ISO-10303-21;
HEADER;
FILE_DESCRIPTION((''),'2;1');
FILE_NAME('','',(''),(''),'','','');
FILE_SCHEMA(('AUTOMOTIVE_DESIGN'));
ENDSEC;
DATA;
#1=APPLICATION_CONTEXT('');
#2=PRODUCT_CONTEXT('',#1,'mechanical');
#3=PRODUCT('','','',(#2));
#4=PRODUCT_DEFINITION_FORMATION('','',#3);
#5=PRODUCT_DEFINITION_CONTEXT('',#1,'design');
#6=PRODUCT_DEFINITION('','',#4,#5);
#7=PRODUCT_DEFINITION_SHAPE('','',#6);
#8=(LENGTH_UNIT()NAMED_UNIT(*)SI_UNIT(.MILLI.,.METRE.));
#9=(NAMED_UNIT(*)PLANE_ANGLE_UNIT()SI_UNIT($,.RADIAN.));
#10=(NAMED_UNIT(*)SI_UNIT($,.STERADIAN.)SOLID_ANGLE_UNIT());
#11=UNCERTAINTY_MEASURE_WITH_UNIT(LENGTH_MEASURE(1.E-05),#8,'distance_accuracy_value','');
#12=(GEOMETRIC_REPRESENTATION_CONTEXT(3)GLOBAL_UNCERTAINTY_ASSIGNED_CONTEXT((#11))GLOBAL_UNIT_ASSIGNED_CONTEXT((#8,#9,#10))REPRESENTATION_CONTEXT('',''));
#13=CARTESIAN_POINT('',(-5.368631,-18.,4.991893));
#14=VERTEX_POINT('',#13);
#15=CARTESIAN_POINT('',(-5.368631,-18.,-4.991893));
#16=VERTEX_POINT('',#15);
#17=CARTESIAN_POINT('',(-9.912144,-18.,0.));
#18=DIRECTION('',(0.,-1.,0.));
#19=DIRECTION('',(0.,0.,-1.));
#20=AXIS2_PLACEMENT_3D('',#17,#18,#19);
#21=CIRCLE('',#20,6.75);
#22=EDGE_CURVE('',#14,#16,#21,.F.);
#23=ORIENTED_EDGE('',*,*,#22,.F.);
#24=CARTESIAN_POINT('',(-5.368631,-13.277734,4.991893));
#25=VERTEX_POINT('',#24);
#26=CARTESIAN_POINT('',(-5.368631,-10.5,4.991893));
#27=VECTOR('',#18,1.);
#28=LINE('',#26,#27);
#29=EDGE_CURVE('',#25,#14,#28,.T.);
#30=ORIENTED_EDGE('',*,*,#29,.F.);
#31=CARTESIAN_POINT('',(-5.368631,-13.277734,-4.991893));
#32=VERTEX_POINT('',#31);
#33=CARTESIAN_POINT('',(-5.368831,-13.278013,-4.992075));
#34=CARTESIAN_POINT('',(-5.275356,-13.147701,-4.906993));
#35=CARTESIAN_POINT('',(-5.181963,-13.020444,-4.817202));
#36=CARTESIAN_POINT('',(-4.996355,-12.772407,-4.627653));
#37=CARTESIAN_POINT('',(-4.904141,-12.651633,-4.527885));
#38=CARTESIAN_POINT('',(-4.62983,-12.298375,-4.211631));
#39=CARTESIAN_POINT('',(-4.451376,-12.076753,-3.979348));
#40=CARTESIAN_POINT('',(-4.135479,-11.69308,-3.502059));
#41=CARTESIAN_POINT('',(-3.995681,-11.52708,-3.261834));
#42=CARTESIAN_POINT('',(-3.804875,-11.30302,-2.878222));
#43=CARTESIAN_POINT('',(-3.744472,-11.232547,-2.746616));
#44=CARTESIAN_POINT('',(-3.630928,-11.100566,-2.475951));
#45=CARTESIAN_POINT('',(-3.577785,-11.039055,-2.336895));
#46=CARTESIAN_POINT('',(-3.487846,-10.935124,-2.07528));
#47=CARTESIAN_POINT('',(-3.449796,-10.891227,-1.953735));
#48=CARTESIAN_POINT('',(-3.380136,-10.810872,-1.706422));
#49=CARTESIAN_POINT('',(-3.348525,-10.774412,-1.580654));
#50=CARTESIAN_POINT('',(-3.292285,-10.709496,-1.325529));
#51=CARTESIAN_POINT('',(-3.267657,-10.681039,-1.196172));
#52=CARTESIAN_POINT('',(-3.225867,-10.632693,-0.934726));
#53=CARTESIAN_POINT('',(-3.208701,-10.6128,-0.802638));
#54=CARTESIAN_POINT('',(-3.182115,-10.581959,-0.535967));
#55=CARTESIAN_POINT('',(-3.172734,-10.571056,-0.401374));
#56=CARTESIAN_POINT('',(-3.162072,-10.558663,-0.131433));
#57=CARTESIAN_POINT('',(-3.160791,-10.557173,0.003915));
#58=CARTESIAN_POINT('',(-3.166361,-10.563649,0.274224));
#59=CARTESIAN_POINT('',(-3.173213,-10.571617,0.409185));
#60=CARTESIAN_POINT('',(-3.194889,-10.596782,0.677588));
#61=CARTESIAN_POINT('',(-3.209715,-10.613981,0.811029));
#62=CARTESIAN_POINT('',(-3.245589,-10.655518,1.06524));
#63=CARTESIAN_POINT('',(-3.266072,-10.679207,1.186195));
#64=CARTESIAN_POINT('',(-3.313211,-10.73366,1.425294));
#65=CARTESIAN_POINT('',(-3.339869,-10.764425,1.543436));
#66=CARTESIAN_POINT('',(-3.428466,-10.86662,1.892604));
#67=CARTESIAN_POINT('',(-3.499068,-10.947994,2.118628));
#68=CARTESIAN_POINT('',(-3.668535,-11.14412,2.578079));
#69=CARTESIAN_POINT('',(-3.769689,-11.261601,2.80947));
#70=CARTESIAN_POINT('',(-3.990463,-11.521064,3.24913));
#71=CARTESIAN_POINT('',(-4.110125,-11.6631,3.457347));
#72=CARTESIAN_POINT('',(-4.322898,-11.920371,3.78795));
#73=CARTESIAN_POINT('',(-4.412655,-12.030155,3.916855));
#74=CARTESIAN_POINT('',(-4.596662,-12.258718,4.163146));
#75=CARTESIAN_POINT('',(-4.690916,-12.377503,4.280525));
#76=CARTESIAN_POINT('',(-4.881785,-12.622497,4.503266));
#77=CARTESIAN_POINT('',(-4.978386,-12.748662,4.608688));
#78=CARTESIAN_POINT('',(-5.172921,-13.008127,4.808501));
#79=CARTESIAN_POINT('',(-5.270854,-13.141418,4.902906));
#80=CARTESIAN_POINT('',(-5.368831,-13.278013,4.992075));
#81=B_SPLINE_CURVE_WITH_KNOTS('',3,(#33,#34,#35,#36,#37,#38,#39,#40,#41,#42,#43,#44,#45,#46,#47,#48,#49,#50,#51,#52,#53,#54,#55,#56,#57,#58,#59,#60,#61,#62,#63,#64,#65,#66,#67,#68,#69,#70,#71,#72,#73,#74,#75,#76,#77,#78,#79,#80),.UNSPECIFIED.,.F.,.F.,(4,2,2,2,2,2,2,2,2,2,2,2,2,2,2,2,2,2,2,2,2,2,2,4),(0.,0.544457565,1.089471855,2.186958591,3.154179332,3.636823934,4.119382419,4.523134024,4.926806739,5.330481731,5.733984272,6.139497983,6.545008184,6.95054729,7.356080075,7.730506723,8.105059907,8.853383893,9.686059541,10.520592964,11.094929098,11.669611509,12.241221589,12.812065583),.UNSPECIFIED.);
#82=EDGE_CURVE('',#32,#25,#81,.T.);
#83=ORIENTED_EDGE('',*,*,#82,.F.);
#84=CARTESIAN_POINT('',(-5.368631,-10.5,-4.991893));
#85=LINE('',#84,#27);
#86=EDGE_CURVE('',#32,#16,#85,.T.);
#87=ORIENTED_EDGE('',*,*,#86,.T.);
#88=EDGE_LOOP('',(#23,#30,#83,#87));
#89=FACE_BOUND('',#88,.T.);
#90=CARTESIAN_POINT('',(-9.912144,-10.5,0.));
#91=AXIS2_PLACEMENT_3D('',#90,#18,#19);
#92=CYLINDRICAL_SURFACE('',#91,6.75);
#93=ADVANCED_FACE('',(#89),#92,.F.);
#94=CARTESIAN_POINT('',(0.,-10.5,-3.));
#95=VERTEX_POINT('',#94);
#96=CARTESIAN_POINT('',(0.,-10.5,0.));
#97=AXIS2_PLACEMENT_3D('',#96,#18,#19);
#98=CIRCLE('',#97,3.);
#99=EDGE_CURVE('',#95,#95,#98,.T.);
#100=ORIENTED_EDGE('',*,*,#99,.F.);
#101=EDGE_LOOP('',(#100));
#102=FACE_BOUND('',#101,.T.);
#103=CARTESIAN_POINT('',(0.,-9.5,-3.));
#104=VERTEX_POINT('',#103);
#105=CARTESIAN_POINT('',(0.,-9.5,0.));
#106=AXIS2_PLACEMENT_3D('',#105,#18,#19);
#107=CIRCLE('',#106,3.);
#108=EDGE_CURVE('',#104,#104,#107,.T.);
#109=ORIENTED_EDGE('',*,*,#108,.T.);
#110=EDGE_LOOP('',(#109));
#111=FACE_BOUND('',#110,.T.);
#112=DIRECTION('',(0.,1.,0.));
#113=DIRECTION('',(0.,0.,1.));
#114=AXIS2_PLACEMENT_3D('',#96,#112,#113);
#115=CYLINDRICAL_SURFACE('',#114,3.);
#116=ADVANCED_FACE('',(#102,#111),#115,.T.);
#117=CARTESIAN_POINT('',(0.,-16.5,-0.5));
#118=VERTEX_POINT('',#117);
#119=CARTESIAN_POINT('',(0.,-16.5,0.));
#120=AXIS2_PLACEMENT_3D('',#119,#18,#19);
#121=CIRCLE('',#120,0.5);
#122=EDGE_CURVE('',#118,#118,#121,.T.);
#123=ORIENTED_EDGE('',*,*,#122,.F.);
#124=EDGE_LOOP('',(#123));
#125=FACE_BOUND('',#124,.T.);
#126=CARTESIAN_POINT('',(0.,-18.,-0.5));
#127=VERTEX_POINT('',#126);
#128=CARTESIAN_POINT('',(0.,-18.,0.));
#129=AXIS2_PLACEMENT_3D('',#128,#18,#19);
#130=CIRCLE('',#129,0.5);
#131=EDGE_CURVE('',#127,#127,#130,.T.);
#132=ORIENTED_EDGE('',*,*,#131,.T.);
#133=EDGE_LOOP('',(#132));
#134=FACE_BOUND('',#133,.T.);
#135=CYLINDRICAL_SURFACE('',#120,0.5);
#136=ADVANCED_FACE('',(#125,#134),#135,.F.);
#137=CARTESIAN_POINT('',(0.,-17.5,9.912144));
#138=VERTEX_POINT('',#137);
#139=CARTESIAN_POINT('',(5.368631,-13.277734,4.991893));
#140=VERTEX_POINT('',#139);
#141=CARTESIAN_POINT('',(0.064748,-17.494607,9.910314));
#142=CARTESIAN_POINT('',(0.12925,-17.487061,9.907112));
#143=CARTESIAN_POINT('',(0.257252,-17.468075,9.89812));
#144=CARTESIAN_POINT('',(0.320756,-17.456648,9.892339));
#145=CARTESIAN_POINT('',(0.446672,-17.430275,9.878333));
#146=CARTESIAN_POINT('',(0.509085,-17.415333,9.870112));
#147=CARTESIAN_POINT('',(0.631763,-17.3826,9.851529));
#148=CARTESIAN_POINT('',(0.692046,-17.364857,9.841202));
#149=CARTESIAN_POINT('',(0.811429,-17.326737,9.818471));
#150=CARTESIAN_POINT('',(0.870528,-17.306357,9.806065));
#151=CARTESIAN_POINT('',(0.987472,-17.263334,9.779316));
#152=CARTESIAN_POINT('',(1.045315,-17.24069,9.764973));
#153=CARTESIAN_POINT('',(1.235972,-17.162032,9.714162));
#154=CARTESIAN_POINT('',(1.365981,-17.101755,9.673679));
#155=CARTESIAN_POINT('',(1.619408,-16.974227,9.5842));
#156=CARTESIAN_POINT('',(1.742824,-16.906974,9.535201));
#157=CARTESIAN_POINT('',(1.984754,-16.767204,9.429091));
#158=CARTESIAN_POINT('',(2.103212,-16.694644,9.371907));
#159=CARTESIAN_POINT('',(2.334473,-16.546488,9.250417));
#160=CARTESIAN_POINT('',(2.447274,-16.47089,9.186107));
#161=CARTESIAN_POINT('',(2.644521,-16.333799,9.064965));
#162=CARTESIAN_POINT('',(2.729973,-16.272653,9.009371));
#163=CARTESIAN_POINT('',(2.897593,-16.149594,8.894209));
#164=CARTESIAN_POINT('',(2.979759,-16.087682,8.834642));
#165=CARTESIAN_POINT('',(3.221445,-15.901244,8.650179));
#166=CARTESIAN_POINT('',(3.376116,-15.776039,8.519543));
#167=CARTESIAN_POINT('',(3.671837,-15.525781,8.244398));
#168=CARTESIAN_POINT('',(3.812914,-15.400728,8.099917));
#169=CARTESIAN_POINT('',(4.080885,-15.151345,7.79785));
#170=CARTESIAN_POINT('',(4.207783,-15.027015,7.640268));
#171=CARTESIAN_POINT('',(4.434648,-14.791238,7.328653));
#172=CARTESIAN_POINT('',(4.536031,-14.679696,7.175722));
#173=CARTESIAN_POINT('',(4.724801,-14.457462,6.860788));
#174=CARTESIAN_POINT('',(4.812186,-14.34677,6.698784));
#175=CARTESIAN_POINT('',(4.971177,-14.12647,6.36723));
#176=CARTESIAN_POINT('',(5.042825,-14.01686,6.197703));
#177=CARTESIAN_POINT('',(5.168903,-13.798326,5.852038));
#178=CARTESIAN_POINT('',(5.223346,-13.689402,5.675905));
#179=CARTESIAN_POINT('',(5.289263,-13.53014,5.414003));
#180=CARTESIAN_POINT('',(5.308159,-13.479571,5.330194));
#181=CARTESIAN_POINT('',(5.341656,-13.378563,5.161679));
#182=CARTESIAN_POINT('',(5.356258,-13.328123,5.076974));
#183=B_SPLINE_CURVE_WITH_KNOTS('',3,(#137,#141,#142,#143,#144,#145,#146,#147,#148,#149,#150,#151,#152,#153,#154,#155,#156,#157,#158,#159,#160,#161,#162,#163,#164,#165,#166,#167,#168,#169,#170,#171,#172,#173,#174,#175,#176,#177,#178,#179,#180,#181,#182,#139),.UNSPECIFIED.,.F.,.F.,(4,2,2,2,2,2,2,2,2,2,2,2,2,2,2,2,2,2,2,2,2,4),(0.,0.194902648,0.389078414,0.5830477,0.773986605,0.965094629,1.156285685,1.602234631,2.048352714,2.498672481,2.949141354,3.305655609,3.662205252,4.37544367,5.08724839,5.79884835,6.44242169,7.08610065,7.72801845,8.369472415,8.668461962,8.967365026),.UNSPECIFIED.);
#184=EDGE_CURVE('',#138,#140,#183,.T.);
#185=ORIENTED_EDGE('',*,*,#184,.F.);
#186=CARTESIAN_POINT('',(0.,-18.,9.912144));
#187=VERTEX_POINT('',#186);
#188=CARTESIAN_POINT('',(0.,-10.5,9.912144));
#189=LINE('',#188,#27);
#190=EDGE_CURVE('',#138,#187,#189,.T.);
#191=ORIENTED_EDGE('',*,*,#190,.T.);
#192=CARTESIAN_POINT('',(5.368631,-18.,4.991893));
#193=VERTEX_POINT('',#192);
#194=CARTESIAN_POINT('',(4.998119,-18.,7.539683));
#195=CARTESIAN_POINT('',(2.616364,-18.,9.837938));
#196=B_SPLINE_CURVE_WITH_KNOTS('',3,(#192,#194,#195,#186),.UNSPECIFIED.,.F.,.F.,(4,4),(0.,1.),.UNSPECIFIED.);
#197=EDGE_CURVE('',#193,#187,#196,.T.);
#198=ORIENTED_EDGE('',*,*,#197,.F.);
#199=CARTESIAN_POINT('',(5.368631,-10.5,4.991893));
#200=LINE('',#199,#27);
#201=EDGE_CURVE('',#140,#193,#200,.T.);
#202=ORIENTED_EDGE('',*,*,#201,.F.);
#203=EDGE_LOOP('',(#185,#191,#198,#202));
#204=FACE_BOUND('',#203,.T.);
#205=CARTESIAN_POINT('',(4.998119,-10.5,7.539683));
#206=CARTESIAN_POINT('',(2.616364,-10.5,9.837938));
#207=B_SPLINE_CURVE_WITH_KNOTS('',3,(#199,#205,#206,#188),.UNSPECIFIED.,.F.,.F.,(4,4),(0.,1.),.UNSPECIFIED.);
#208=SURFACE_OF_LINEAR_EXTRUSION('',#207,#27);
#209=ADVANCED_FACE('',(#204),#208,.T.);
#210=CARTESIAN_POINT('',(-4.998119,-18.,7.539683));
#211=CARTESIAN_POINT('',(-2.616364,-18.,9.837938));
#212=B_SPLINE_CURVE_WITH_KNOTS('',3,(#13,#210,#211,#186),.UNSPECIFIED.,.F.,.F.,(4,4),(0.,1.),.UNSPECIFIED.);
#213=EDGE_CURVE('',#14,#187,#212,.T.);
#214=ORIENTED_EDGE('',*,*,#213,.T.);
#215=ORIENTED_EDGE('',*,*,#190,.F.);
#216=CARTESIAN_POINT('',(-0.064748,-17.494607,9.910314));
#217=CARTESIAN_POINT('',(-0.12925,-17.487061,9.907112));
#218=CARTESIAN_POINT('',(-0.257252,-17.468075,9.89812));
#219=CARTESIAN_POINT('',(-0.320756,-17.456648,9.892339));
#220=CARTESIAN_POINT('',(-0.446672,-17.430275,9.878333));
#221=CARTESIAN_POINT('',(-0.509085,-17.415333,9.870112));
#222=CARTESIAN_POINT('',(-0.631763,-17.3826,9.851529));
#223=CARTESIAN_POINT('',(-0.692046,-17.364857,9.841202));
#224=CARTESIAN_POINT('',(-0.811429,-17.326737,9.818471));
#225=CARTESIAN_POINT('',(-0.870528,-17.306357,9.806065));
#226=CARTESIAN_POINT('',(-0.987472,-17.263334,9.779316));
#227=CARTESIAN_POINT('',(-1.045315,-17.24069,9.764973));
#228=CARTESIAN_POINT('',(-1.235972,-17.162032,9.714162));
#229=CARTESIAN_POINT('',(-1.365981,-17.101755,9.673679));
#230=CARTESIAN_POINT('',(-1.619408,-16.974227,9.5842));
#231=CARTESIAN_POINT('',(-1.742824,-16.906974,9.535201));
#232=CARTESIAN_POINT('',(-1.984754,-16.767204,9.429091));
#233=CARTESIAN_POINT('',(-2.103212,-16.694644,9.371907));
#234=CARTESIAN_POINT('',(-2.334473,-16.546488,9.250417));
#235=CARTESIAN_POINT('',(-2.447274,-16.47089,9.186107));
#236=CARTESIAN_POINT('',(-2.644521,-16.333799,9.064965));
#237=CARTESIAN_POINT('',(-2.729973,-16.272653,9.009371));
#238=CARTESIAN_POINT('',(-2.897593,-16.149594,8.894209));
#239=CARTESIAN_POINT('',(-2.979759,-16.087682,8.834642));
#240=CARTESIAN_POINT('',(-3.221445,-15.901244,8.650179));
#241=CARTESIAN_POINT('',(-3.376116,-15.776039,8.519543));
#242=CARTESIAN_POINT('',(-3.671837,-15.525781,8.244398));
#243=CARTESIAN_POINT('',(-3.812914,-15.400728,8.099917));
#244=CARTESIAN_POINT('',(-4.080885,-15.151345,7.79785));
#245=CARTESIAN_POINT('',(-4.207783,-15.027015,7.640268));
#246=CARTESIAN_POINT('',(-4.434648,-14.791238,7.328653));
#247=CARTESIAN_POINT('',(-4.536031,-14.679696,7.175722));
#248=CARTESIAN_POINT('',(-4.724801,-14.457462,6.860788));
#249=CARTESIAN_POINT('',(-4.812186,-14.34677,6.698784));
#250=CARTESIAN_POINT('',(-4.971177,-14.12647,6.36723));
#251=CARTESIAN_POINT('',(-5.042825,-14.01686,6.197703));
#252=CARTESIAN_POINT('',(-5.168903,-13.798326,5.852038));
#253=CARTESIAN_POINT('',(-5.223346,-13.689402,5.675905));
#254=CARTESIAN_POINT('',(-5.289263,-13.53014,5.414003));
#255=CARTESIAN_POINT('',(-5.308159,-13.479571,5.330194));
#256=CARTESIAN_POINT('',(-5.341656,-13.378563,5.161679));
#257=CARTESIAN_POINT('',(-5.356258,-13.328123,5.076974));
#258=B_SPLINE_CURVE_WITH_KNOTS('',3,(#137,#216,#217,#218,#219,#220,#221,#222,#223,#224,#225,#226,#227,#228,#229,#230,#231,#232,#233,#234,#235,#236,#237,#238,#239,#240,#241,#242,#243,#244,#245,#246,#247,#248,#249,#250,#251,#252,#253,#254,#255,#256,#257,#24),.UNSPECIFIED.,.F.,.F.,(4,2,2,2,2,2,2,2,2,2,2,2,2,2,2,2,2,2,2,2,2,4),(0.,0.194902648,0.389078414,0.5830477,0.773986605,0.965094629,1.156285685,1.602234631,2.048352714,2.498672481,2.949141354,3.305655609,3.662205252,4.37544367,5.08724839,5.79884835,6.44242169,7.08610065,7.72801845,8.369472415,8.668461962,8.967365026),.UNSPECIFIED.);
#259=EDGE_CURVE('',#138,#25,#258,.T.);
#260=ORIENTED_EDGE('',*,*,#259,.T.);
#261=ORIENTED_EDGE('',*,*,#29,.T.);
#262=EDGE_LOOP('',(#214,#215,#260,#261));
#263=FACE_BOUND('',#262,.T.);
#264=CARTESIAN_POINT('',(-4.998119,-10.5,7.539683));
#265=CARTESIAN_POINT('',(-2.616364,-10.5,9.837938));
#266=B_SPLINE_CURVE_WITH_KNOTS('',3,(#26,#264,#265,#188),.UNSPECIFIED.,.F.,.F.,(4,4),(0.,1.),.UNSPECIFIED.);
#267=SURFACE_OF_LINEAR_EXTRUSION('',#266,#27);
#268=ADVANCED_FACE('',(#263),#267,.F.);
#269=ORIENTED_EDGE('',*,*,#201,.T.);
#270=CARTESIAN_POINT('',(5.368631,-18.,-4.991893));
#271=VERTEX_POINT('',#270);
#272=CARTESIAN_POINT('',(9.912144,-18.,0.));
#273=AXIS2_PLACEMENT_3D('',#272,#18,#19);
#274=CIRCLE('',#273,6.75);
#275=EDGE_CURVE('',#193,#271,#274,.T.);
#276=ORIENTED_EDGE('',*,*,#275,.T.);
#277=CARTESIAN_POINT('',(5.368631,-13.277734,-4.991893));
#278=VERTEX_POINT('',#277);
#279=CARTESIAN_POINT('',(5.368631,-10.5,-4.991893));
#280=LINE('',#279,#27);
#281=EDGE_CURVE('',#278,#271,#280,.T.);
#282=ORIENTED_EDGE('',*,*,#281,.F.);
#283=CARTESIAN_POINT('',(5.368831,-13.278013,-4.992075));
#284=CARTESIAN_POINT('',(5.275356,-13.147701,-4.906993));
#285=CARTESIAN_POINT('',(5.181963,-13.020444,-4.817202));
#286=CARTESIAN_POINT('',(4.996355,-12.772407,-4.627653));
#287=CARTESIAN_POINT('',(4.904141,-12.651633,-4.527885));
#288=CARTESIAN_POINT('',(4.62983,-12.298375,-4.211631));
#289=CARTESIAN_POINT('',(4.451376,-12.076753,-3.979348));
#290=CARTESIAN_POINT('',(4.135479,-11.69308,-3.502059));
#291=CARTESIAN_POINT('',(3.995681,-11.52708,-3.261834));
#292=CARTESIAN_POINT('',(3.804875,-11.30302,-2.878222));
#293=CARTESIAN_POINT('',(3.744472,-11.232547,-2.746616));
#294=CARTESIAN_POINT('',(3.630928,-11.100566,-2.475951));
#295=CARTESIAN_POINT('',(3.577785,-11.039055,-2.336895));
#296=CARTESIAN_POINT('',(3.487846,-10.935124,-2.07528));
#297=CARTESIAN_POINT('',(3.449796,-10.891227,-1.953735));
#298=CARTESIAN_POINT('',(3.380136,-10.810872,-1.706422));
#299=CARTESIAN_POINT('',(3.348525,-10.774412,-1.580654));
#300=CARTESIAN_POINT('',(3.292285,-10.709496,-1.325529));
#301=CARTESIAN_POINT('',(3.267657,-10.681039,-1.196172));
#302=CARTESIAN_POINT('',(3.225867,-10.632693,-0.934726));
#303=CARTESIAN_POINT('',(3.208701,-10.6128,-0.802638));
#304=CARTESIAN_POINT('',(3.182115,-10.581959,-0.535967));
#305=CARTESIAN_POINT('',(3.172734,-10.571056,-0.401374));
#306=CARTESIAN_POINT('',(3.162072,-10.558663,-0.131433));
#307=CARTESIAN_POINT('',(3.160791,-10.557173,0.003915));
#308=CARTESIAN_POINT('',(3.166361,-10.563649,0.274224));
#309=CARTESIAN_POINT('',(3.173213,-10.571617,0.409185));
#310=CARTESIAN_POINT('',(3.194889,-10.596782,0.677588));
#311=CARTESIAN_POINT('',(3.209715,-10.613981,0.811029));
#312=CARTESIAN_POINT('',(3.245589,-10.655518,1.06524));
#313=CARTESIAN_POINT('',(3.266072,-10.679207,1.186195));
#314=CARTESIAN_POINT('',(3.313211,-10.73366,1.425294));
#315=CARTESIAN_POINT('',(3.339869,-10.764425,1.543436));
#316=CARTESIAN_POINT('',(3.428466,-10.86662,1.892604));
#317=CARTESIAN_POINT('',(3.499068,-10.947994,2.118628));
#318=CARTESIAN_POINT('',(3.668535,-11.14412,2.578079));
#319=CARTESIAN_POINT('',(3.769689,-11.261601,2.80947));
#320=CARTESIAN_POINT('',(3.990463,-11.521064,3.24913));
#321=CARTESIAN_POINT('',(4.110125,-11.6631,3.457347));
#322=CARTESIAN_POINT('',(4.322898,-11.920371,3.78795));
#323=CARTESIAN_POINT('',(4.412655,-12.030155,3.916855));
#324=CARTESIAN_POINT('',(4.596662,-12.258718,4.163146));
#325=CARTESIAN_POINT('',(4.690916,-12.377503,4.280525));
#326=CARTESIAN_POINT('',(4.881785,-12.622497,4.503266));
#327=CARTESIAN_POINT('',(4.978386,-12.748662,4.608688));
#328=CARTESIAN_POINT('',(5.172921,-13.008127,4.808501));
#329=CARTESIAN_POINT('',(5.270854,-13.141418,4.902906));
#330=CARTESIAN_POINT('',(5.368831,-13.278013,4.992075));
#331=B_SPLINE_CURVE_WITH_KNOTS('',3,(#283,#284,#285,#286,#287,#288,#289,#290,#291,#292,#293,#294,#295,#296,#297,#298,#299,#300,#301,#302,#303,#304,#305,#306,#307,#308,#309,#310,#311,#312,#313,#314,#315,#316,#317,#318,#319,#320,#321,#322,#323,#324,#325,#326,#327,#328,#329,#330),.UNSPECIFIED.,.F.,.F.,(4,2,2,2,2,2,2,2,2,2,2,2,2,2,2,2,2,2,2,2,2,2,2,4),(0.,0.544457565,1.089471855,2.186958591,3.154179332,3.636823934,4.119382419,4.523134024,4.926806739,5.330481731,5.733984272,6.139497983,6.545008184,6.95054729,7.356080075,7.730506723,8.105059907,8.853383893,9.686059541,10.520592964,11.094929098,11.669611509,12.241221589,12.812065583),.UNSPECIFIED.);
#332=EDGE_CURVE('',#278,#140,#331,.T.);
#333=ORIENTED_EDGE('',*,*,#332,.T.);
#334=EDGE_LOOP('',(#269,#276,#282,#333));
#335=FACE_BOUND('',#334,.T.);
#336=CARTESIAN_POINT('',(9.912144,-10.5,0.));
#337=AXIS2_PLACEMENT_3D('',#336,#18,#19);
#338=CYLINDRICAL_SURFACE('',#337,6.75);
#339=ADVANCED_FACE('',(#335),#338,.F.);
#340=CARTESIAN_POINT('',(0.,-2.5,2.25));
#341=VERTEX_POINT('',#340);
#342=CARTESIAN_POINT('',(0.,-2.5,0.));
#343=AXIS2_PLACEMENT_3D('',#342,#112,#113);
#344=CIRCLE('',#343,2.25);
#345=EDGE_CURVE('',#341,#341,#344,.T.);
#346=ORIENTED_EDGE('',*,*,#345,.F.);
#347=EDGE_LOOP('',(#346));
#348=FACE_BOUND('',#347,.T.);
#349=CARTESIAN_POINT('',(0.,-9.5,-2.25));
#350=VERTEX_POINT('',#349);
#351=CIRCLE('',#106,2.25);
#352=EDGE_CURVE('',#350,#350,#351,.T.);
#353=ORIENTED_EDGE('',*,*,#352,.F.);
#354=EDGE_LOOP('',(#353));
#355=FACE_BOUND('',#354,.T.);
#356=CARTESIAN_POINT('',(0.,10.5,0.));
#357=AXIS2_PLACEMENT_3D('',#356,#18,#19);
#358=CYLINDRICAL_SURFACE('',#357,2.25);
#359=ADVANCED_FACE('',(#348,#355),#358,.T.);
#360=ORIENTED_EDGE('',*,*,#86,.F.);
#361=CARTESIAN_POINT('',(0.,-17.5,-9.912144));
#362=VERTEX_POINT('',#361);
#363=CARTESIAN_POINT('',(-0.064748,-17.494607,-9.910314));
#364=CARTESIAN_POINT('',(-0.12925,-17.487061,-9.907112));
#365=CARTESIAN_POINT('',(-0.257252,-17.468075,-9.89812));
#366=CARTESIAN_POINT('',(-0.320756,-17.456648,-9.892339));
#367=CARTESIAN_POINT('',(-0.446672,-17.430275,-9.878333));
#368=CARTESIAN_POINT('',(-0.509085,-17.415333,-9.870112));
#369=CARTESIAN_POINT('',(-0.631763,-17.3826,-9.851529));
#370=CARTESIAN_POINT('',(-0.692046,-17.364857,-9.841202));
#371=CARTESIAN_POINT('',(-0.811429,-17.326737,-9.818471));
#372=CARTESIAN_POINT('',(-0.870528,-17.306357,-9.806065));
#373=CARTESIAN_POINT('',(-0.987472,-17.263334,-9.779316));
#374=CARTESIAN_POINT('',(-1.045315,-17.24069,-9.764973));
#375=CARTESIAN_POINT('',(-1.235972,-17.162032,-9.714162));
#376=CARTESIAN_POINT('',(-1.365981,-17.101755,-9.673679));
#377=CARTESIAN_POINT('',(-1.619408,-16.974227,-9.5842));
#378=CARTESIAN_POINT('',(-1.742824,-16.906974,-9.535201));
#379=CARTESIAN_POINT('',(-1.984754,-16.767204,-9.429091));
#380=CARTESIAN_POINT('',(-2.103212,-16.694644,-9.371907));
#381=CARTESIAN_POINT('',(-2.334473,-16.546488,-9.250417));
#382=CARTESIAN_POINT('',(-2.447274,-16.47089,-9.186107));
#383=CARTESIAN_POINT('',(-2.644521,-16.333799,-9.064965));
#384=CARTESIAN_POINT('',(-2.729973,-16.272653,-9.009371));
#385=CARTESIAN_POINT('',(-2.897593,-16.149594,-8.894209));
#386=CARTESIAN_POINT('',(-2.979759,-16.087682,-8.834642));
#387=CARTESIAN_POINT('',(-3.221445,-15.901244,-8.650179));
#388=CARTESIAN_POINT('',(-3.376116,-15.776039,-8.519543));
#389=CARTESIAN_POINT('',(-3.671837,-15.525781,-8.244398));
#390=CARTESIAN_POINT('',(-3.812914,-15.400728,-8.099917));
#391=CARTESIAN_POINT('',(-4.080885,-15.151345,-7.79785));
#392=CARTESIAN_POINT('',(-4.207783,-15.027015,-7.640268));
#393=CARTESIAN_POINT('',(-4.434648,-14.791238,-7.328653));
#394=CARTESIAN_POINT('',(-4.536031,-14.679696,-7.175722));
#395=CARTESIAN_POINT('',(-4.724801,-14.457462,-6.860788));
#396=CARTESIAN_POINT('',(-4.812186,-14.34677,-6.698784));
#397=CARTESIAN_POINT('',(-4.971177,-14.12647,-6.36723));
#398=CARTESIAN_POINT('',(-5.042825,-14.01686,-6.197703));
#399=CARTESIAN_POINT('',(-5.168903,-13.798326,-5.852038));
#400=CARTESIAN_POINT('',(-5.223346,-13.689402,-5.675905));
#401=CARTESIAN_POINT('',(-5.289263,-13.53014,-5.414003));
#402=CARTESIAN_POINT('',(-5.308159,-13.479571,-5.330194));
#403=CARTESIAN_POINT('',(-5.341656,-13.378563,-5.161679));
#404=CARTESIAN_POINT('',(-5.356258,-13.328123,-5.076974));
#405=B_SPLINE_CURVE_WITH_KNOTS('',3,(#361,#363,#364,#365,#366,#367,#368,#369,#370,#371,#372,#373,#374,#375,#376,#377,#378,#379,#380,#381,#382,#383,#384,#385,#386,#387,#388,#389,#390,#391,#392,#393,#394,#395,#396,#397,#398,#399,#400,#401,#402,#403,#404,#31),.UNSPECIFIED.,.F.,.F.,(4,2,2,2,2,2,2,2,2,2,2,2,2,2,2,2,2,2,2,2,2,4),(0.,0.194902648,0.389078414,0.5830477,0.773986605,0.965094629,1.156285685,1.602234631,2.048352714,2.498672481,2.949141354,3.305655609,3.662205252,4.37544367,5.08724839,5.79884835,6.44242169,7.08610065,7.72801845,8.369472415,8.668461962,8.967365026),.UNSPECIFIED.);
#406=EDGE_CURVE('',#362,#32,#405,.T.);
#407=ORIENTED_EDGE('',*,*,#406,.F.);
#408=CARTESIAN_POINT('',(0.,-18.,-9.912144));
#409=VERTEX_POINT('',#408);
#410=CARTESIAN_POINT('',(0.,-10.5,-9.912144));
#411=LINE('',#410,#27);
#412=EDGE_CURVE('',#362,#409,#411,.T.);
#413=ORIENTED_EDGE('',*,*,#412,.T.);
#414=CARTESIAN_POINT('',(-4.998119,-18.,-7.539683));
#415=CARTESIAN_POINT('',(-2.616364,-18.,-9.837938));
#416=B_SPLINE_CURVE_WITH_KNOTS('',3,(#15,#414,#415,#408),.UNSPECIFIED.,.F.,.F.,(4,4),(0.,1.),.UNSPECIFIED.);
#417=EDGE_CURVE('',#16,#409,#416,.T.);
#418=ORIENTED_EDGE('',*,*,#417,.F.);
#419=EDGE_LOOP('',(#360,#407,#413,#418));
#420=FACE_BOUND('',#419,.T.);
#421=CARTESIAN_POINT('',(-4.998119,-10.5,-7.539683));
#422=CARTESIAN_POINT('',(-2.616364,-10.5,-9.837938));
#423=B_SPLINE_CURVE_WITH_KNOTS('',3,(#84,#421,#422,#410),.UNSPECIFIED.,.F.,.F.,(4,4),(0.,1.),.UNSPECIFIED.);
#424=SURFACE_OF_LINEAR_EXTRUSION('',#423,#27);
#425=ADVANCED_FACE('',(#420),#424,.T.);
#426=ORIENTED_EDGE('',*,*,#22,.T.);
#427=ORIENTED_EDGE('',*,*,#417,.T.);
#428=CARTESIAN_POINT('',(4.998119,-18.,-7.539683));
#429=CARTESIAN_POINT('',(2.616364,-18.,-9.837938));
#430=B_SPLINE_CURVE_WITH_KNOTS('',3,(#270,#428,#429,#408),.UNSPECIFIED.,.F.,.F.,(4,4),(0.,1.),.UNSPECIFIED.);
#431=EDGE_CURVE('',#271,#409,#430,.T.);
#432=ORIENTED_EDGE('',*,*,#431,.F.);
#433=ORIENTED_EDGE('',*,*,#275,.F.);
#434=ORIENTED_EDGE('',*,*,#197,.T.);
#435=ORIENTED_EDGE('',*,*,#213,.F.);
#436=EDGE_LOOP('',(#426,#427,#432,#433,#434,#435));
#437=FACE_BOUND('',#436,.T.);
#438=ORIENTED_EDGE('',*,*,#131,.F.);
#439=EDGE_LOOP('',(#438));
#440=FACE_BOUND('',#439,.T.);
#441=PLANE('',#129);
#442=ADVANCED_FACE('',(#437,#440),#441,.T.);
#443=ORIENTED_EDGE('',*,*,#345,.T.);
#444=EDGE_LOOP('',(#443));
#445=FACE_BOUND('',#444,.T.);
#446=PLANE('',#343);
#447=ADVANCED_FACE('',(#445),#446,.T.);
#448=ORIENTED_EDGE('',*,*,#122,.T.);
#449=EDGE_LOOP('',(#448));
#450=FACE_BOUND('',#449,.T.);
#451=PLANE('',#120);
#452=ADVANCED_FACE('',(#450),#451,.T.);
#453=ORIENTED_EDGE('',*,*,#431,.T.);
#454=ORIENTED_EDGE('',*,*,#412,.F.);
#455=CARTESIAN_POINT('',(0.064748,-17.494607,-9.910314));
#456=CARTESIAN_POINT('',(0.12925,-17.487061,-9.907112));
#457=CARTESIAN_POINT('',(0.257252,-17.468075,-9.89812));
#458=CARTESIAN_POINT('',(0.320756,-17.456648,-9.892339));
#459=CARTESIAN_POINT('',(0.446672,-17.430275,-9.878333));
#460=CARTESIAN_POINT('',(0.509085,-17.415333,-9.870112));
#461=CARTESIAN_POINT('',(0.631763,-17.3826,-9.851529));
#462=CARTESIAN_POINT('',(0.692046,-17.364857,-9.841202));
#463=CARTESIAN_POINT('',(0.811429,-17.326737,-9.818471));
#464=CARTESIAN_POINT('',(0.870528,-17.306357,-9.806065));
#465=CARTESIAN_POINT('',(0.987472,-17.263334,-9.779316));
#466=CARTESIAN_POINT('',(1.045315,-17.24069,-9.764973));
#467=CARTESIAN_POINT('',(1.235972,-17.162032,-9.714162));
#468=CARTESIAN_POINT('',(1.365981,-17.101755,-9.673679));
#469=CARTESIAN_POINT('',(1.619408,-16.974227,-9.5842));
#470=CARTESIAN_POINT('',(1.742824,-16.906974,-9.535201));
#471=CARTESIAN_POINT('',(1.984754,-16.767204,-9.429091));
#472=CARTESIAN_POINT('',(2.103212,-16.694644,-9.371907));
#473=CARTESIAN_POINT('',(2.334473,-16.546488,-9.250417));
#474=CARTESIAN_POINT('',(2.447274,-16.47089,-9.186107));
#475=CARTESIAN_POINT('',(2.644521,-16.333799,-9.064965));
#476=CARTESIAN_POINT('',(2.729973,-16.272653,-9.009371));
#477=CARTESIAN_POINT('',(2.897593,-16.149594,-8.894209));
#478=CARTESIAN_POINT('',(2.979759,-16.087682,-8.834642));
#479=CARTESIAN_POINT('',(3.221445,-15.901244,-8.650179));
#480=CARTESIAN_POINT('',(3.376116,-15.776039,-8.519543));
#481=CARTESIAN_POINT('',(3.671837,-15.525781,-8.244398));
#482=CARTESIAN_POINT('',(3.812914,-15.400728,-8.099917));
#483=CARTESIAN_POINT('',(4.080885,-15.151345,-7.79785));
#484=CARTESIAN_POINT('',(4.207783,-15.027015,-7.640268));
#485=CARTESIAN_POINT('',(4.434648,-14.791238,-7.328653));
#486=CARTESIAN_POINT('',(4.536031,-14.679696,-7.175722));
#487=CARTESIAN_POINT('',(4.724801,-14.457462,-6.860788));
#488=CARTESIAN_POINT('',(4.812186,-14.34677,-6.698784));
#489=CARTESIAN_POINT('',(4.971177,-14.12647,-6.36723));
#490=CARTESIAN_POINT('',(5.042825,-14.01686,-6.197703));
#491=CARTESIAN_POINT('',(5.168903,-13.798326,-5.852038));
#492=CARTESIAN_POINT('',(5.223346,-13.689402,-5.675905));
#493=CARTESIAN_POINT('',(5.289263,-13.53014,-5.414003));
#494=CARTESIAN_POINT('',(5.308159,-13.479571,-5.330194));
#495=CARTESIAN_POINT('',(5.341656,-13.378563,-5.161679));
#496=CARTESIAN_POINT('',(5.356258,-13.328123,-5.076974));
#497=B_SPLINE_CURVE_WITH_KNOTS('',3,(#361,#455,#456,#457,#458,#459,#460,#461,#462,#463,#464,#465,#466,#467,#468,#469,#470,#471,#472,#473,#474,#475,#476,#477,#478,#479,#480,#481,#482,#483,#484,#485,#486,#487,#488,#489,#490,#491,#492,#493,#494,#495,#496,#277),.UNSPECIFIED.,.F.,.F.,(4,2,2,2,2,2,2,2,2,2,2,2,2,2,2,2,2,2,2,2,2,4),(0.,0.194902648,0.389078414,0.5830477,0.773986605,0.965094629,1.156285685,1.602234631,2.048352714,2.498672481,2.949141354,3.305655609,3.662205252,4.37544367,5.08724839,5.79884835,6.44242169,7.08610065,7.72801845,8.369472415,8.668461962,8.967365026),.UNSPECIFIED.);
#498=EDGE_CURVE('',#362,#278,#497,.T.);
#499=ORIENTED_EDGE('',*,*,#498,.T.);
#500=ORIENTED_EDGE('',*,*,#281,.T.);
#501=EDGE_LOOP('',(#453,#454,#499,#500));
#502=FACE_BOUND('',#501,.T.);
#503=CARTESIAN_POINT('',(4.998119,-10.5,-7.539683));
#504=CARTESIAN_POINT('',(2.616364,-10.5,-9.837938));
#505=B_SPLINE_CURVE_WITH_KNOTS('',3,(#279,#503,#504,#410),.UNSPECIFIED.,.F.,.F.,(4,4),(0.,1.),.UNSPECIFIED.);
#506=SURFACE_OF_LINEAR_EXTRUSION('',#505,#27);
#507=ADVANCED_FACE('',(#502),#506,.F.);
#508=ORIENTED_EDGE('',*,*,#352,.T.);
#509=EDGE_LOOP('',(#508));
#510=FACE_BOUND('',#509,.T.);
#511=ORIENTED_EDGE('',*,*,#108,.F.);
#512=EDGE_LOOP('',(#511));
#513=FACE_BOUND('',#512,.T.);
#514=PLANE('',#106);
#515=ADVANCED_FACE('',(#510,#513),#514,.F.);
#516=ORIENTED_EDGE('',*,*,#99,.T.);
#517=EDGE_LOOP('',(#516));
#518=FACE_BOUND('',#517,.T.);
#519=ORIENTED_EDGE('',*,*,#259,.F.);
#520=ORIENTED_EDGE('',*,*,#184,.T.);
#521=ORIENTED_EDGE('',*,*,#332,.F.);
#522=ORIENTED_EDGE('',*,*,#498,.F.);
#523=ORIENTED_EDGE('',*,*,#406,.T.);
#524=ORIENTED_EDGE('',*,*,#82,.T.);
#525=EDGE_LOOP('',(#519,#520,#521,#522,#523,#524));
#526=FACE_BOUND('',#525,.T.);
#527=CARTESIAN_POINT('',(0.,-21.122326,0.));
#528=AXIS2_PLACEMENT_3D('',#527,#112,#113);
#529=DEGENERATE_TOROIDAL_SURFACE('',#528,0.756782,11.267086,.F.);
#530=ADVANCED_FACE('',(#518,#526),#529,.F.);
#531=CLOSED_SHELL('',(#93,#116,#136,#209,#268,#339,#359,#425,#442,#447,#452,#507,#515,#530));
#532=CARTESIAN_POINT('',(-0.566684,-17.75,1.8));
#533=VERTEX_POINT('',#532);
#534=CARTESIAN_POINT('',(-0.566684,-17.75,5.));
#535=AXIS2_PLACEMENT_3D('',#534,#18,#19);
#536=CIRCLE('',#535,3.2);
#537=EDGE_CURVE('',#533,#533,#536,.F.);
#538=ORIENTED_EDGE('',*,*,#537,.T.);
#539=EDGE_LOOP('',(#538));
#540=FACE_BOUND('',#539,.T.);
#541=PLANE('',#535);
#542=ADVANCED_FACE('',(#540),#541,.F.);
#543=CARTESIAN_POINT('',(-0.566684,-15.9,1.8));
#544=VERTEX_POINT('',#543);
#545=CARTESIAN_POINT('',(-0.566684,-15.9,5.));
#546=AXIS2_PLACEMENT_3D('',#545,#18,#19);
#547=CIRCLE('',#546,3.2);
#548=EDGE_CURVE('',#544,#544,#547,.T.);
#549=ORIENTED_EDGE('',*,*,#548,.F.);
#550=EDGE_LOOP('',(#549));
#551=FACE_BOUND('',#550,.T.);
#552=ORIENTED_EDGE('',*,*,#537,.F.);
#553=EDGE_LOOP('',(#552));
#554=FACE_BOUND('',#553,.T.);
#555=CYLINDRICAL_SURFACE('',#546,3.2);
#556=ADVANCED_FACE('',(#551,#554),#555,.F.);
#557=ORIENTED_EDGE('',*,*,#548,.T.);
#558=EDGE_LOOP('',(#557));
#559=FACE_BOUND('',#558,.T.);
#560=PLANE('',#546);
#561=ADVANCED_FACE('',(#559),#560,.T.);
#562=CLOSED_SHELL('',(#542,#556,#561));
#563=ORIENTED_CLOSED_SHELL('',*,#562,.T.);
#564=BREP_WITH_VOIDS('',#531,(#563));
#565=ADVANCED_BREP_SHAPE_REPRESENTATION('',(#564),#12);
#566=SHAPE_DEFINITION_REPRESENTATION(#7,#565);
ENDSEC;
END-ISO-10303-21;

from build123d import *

# Parameters (mm, degrees)
SKETCH1_R           = 5
SKETCH1_R_2         = 3
BOSS_EXTRUDE2_DEPTH = 17.5
SKETCH4_W           = 18
SKETCH4_H           = 1
EXTRUDE_THIN1_DEPTH = 35
CIRPATTERN1_COUNT   = 9
SKETCH5_R           = 3
BOSS_EXTRUDE3_DEPTH = 15
SKETCH6_R           = 3.5
SKETCH6_R_2         = 1.5
CUT_EXTRUDE1_DEPTH  = 6
SKETCH15_R          = 1.5
CUT_EXTRUDE2_DEPTH  = 2
SKETCH17_R          = 2.5
BOSS_EXTRUDE4_DEPTH = 3
SKETCH18_R          = 2
CUT_EXTRUDE3_DEPTH  = 2
SKETCH19_R          = 4
CUT_EXTRUDE4_DEPTH  = 20
SKETCH20_W          = 45.677284088
SKETCH20_H          = 45.724664858
CUT_EXTRUDE5_DEPTH  = 8
SKETCH21_R          = 3
BOSS_EXTRUDE5_DEPTH = 1
SKETCH24_R          = 9.912143672
BOSS_EXTRUDE6_DEPTH = 0.5
SKETCH25_R          = 3.2
CUT_EXTRUDE6_DEPTH  = 2.1
SKETCH26_R          = 3.2
BOSS_EXTRUDE7_DEPTH = 0.25
CUT_EXTRUDE8_START  = -7.5
CUT_EXTRUDE8_DEPTH  = 7.5
SKETCH28_R          = 0.5
CUT_EXTRUDE9_DEPTH  = 1.5
CUT_EXTRUDE10_DEPTH = 7
BOSS_EXTRUDE8_START = 10
SKETCH30_R          = 4
BOSS_EXTRUDE8_DEPTH = 10
CUT_EXTRUDE12_START = -20
SKETCH31_R          = 2.25
CUT_EXTRUDE12_DEPTH = 20
SKETCH32_R          = 2.25
CUT_EXTRUDE13_DEPTH = 10


with BuildPart() as part:
    # Sketch1 → Boss-Extrude2 (new, symmetric)
    with BuildSketch(Plane(origin=(0, 0, 0), x_dir=(1, 0, 0), z_dir=(0, 1, 0))):
        with Locations(Location((0, 0, 0), (0, 0, 270))):
            Circle(SKETCH1_R)
        with Locations(Location((0, 0, 0), (0, 0, 270))):
            Circle(SKETCH1_R_2, mode=Mode.SUBTRACT)
    extrude(amount=BOSS_EXTRUDE2_DEPTH, both=True)

    # Sketch4 → Extrude-Thin1 (add)
    with BuildSketch(Plane(origin=(0, 17.5, 0), x_dir=(1, 0, 0), z_dir=(0, 1, 0))):
        with Locations((12, 0)):
            Rectangle(SKETCH4_W, SKETCH4_H)
    extrude_thin1 = extrude(amount=-EXTRUDE_THIN1_DEPTH)

    # CirPattern1: Extrude-Thin1 ×9 about axis
    cirpattern1_axis = Axis((0, 0, 0), (0, 1, 0))
    for i in range(1, CIRPATTERN1_COUNT):
        add(extrude_thin1.rotate(cirpattern1_axis, i * 360 / CIRPATTERN1_COUNT))

    # Sketch5 → Boss-Extrude3 (add)
    with BuildSketch(Plane(origin=(0, -17.5, 0), x_dir=(-1, 0, 0), z_dir=(0, -1, 0))):
        with Locations(Location((0, 0, 0), (0, 0, 90))):
            Circle(SKETCH5_R)
    extrude(amount=-BOSS_EXTRUDE3_DEPTH)

    # Sketch6 → Cut-Extrude1 (cut)
    with BuildSketch(Plane(origin=(0, -17.5, 0), x_dir=(-1, 0, 0), z_dir=(0, -1, 0))):
        with Locations(Location((0, 0, 0), (0, 0, 90))):
            Circle(SKETCH6_R)
        with Locations(Location((0, 0, 0), (0, 0, 90))):
            Circle(SKETCH6_R_2, mode=Mode.SUBTRACT)
    extrude(amount=-CUT_EXTRUDE1_DEPTH, mode=Mode.SUBTRACT)

    # Sketch15 → Cut-Extrude2 (cut)
    with BuildSketch(Plane.XZ.offset(17.5)):
        with Locations(Location((0, 0, 0), (0, 0, 270))):
            Circle(SKETCH15_R)
    extrude(amount=-CUT_EXTRUDE2_DEPTH, mode=Mode.SUBTRACT)

    # Sketch17 → Boss-Extrude4 (add)
    with BuildSketch(Plane.XZ.offset(17.5)):
        with Locations((18.5, 0)):
            Circle(SKETCH17_R)
    extrude(amount=-BOSS_EXTRUDE4_DEPTH)

    # Sketch18 → Cut-Extrude3 (cut)
    with BuildSketch(Plane.XZ.offset(17.5)):
        with Locations(Location((18.5, 0, 0), (0, 0, 270))):
            Circle(SKETCH18_R)
    extrude(amount=-CUT_EXTRUDE3_DEPTH, mode=Mode.SUBTRACT)

    # Sketch19 → Cut-Extrude4 (cut)
    with BuildSketch(Plane(origin=(0, 17.5, 0), x_dir=(1, 0, 0), z_dir=(0, 1, 0))):
        with Locations(Location((0, 0, 0), (0, 0, 270))):
            Circle(SKETCH19_R)
    extrude(amount=-CUT_EXTRUDE4_DEPTH, mode=Mode.SUBTRACT)

    # Sketch20 → Cut-Extrude5 (cut)
    with BuildSketch(Plane(origin=(0, -17.5, 0), x_dir=(-1, 0, 0), z_dir=(0, -1, 0))):
        Rectangle(SKETCH20_W, SKETCH20_H)
    extrude(amount=-CUT_EXTRUDE5_DEPTH, mode=Mode.SUBTRACT)

    # Sketch21 → Boss-Extrude5 (add)
    with BuildSketch(Plane.XZ.offset(9.5)):
        with Locations(Location((0, 0, 0), (0, 0, 90))):
            Circle(SKETCH21_R)
    extrude(amount=BOSS_EXTRUDE5_DEPTH)

    # Sketch23 → Revolve1 (revolve)
    with BuildSketch(Plane(origin=(0, 0, 0), x_dir=(0, 0, -1), z_dir=(1, 0, 0))):
        with BuildLine():
            Line((-3, -10.5), (-2, -10.5))
            Line((-2, -10.5), (0, -10.5))
            Line((0, -10.5), (0, -17.5))
            Line((0, -17.5), (-8.912143672, -17.5))
            Line((-8.912143672, -17.5), (-9.912143672, -17.5))
            ThreePointArc((-9.912143672, -17.5), (-7.260403323, -13.2057636), (-3, -10.5))
        make_face()
    revolve(axis=Axis((0, -11.130650603, 0), (0, -1, 0)))

    # Sketch24 → Boss-Extrude6 (add)
    with BuildSketch(Plane.XZ.offset(17.5)):
        with Locations(Location((0, 0, 0), (0, 0, 270))):
            Circle(SKETCH24_R)
    extrude(amount=BOSS_EXTRUDE6_DEPTH)

    # Sketch25 → Cut-Extrude6 (cut)
    with BuildSketch(Plane.XZ.offset(18)):
        with Locations(Location((-0.56668442, 5, 0), (0, 0, 270))):
            Circle(SKETCH25_R)
    extrude(amount=-CUT_EXTRUDE6_DEPTH, mode=Mode.SUBTRACT)

    # Sketch26 → Boss-Extrude7 (add)
    with BuildSketch(Plane.XZ.offset(18)):
        with Locations(Location((-0.56668442, 5, 0), (0, 0, 270))):
            Circle(SKETCH26_R)
    extrude(amount=-BOSS_EXTRUDE7_DEPTH)

    # Sketch27 → Cut-Extrude8 (cut)
    with BuildSketch(Plane.XZ.offset(18).offset(CUT_EXTRUDE8_START)):
        with BuildLine():
            ThreePointArc((-5.368630905, 4.991892601), (-6.424807204, 5.779358473), (-7.613826501, 6.346671425))
            ThreePointArc((-7.613826501, 6.346671425), (-9.912143672, 0), (-7.613826501, -6.346671425))
            ThreePointArc((-7.613826501, -6.346671425), (-6.424807204, -5.779358473), (-5.368630905, -4.991892601))
            ThreePointArc((-5.368630905, -4.991892601), (-3.162143672, 0), (-5.368630905, 4.991892601))
        make_face()
        with BuildLine():
            ThreePointArc((9.912143672, 0), (9.319869483, 3.375), (7.613826501, 6.346671425))
            ThreePointArc((7.613826501, 6.346671425), (6.424807204, 5.779358473), (5.368630905, 4.991892601))
            ThreePointArc((5.368630905, 4.991892601), (3.162143672, 0), (5.368630905, -4.991892601))
            ThreePointArc((5.368630905, -4.991892601), (6.424807204, -5.779358473), (7.613826501, -6.346671425))
            ThreePointArc((7.613826501, -6.346671425), (9.319869483, -3.375), (9.912143672, 0))
        make_face()
        with BuildLine():
            ThreePointArc((-5.368630905, -4.991892601), (-6.424807204, -5.779358473), (-7.613826501, -6.346671425))
            ThreePointArc((-7.613826501, -6.346671425), (-4.203657524, -8.976628297), (0, -9.912143672))
            add(Edge.make_bspline(
                [(-5.368630905, -4.991892601), (-4.998119196, -7.539682857), (-2.616364035, -9.837937814), (0, -9.912143672)],
                knots=[0, 0, 0, 0, 1, 1, 1, 1], degree=3))
        make_face()
        with BuildLine():
            add(Edge.make_bspline(
                [(5.368630905, -4.991892601), (4.998119196, -7.539682857), (2.616364035, -9.837937814), (0, -9.912143672)],
                knots=[0, 0, 0, 0, 1, 1, 1, 1], degree=3))
            ThreePointArc((0, -9.912143672), (4.203657524, -8.976628297), (7.613826501, -6.346671425))
            ThreePointArc((7.613826501, -6.346671425), (6.424807204, -5.779358473), (5.368630905, -4.991892601))
        make_face()
        with BuildLine():
            ThreePointArc((0, 9.912143672), (-4.203657524, 8.976628297), (-7.613826501, 6.346671425))
            ThreePointArc((-7.613826501, 6.346671425), (-6.424807204, 5.779358473), (-5.368630905, 4.991892601))
            add(Edge.make_bspline(
                [(-5.368630905, 4.991892601), (-4.998119196, 7.539682857), (-2.616364035, 9.837937814), (0, 9.912143672)],
                knots=[0, 0, 0, 0, 1, 1, 1, 1], degree=3))
        make_face()
        with BuildLine():
            ThreePointArc((7.613826501, 6.346671425), (4.203657524, 8.976628297), (0, 9.912143672))
            add(Edge.make_bspline(
                [(5.368630905, 4.991892601), (4.998119196, 7.539682857), (2.616364035, 9.837937814), (0, 9.912143672)],
                knots=[0, 0, 0, 0, 1, 1, 1, 1], degree=3))
            ThreePointArc((5.368630905, 4.991892601), (6.424807204, 5.779358473), (7.613826501, 6.346671425))
        make_face()
    extrude(amount=CUT_EXTRUDE8_DEPTH, mode=Mode.SUBTRACT)

    # Sketch28 → Cut-Extrude9 (cut)
    with BuildSketch(Plane.XZ.offset(18)):
        with Locations(Location((0, 0, 0), (0, 0, 270))):
            Circle(SKETCH28_R)
    extrude(amount=-CUT_EXTRUDE9_DEPTH, mode=Mode.SUBTRACT)

    # Sketch29 → Cut-Extrude10 (cut)
    with BuildSketch(Plane(origin=(0, 17.5, 0), x_dir=(1, 0, 0), z_dir=(0, 1, 0))):
        with BuildLine():
            Line((3.489629181, -3.580850203), (15.765539501, -13.881562025))
            Line((15.765539501, -13.881562025), (16.40832711, -13.115517582))
            Line((16.40832711, -13.115517582), (4.132416791, -2.81480576))
            ThreePointArc((4.132416791, -2.81480576), (4.698463104, -1.710100717), (4.974937186, -0.5))
            Line((4.974937186, -0.5), (21, -0.5))
            Line((21, -0.5), (21, 0.5))
            Line((21, 0.5), (4.974937186, 0.5))
            ThreePointArc((4.974937186, 0.5), (4.698463104, 1.710100717), (4.132416791, 2.81480576))
            Line((4.132416791, 2.81480576), (16.40832711, 13.115517582))
            Line((16.40832711, 13.115517582), (15.765539501, 13.881562025))
            Line((15.765539501, 13.881562025), (3.489629181, 3.580850203))
            ThreePointArc((3.489629181, 3.580850203), (2.5, 4.330127019), (1.356292653, 4.812532622))
            Line((1.356292653, 4.812532622), (4.139015608, 20.594138724))
            Line((4.139015608, 20.594138724), (3.154207854, 20.767786902))
            Line((3.154207854, 20.767786902), (0.3714849, 4.9861808))
            ThreePointArc((0.3714849, 4.9861808), (-0.868240888, 4.924038765), (-2.054455891, 4.558421985))
            Line((-2.054455891, 4.558421985), (-10.066987298, 18.436533479))
            Line((-10.066987298, 18.436533479), (-10.933012702, 17.936533479))
            Line((-10.933012702, 17.936533479), (-2.920481295, 4.058421985))
            ThreePointArc((-2.920481295, 4.058421985), (-3.830222216, 3.213938048), (-4.50390169, 2.17137504))
            Line((-4.50390169, 2.17137504), (-19.562534965, 7.65226932))
            Line((-19.562534965, 7.65226932), (-19.904555108, 6.712576699))
            Line((-19.904555108, 6.712576699), (-4.845921834, 1.231682419))
            ThreePointArc((-4.845921834, 1.231682419), (-5, 0), (-4.845921834, -1.231682419))
            Line((-4.845921834, -1.231682419), (-19.904555108, -6.712576699))
            Line((-19.904555108, -6.712576699), (-19.562534965, -7.65226932))
            Line((-19.562534965, -7.65226932), (-4.50390169, -2.17137504))
            ThreePointArc((-4.50390169, -2.17137504), (-3.830222216, -3.213938048), (-2.920481295, -4.058421985))
            Line((-2.920481295, -4.058421985), (-10.933012702, -17.936533479))
            Line((-10.933012702, -17.936533479), (-10.066987298, -18.436533479))
            Line((-10.066987298, -18.436533479), (-2.054455891, -4.558421985))
            ThreePointArc((-2.054455891, -4.558421985), (-0.868240888, -4.924038765), (0.3714849, -4.9861808))
            Line((0.3714849, -4.9861808), (3.154207854, -20.767786902))
            Line((3.154207854, -20.767786902), (4.139015608, -20.594138724))
            Line((4.139015608, -20.594138724), (1.356292653, -4.812532622))
            ThreePointArc((1.356292653, -4.812532622), (2.5, -4.330127019), (3.489629181, -3.580850203))
        make_face()
    extrude(amount=-CUT_EXTRUDE10_DEPTH, mode=Mode.SUBTRACT)

    # Sketch30 → Boss-Extrude8 (add)
    with BuildSketch(Plane(origin=(0, -2.5, 0), x_dir=(1, 0, 0), z_dir=(0, 1, 0)).offset(BOSS_EXTRUDE8_START)):
        with Locations(Location((0, 0, 0), (0, 0, 270))):
            Circle(SKETCH30_R)
    extrude(amount=-BOSS_EXTRUDE8_DEPTH)

    # Sketch31 → Cut-Extrude12 (cut)
    with BuildSketch(Plane.XZ.offset(9.5).offset(CUT_EXTRUDE12_START)):
        with BuildLine():
            Line((-2.054455891, 4.558421985), (-10.066987298, 18.436533479))
            Line((-10.066987298, 18.436533479), (-10.933012702, 17.936533479))
            Line((-10.933012702, 17.936533479), (-2.920481295, 4.058421985))
            ThreePointArc((-2.920481295, 4.058421985), (-3.830222216, 3.213938048), (-4.50390169, 2.17137504))
            Line((-4.50390169, 2.17137504), (-19.562534965, 7.65226932))
            Line((-19.562534965, 7.65226932), (-19.904555108, 6.712576699))
            Line((-19.904555108, 6.712576699), (-4.845921834, 1.231682419))
            ThreePointArc((-4.845921834, 1.231682419), (-5, 0), (-4.845921834, -1.231682419))
            Line((-4.845921834, -1.231682419), (-19.904555108, -6.712576699))
            Line((-19.904555108, -6.712576699), (-19.562534965, -7.65226932))
            Line((-19.562534965, -7.65226932), (-4.50390169, -2.17137504))
            ThreePointArc((-4.50390169, -2.17137504), (-3.830222216, -3.213938048), (-2.920481295, -4.058421985))
            Line((-2.920481295, -4.058421985), (-10.933012702, -17.936533479))
            Line((-10.933012702, -17.936533479), (-10.066987298, -18.436533479))
            Line((-10.066987298, -18.436533479), (-2.054455891, -4.558421985))
            ThreePointArc((-2.054455891, -4.558421985), (-0.868240888, -4.924038765), (0.3714849, -4.9861808))
            Line((0.3714849, -4.9861808), (3.154207854, -20.767786902))
            Line((3.154207854, -20.767786902), (4.139015608, -20.594138724))
            Line((4.139015608, -20.594138724), (1.356292653, -4.812532622))
            ThreePointArc((1.356292653, -4.812532622), (2.5, -4.330127019), (3.489629181, -3.580850203))
            Line((3.489629181, -3.580850203), (15.765539501, -13.881562025))
            Line((15.765539501, -13.881562025), (16.40832711, -13.115517582))
            Line((16.40832711, -13.115517582), (4.132416791, -2.81480576))
            ThreePointArc((4.132416791, -2.81480576), (4.698463104, -1.710100717), (4.974937186, -0.5))
            Line((4.974937186, -0.5), (21, -0.5))
            Line((21, -0.5), (21, 0.5))
            Line((21, 0.5), (4.974937186, 0.5))
            ThreePointArc((4.974937186, 0.5), (4.698463104, 1.710100717), (4.132416791, 2.81480576))
            Line((4.132416791, 2.81480576), (16.40832711, 13.115517582))
            Line((16.40832711, 13.115517582), (15.765539501, 13.881562025))
            Line((15.765539501, 13.881562025), (3.489629181, 3.580850203))
            ThreePointArc((3.489629181, 3.580850203), (2.5, 4.330127019), (1.356292653, 4.812532622))
            Line((1.356292653, 4.812532622), (4.139015608, 20.594138724))
            Line((4.139015608, 20.594138724), (3.154207854, 20.767786902))
            Line((3.154207854, 20.767786902), (0.3714849, 4.9861808))
            ThreePointArc((0.3714849, 4.9861808), (-0.868240888, 4.924038765), (-2.054455891, 4.558421985))
        make_face()
        with Locations(Location((0, 0, 0), (0, 0, 270))):
            Circle(SKETCH31_R, mode=Mode.SUBTRACT)
    extrude(amount=CUT_EXTRUDE12_DEPTH, mode=Mode.SUBTRACT)

    # Sketch32 → Cut-Extrude13 (cut)
    with BuildSketch(Plane(origin=(0, 7.5, 0), x_dir=(1, 0, 0), z_dir=(0, 1, 0))):
        with Locations(Location((0, 0, 0), (0, 0, 90))):
            Circle(SKETCH32_R)
    extrude(amount=-CUT_EXTRUDE13_DEPTH, mode=Mode.SUBTRACT)


solid = part.part
